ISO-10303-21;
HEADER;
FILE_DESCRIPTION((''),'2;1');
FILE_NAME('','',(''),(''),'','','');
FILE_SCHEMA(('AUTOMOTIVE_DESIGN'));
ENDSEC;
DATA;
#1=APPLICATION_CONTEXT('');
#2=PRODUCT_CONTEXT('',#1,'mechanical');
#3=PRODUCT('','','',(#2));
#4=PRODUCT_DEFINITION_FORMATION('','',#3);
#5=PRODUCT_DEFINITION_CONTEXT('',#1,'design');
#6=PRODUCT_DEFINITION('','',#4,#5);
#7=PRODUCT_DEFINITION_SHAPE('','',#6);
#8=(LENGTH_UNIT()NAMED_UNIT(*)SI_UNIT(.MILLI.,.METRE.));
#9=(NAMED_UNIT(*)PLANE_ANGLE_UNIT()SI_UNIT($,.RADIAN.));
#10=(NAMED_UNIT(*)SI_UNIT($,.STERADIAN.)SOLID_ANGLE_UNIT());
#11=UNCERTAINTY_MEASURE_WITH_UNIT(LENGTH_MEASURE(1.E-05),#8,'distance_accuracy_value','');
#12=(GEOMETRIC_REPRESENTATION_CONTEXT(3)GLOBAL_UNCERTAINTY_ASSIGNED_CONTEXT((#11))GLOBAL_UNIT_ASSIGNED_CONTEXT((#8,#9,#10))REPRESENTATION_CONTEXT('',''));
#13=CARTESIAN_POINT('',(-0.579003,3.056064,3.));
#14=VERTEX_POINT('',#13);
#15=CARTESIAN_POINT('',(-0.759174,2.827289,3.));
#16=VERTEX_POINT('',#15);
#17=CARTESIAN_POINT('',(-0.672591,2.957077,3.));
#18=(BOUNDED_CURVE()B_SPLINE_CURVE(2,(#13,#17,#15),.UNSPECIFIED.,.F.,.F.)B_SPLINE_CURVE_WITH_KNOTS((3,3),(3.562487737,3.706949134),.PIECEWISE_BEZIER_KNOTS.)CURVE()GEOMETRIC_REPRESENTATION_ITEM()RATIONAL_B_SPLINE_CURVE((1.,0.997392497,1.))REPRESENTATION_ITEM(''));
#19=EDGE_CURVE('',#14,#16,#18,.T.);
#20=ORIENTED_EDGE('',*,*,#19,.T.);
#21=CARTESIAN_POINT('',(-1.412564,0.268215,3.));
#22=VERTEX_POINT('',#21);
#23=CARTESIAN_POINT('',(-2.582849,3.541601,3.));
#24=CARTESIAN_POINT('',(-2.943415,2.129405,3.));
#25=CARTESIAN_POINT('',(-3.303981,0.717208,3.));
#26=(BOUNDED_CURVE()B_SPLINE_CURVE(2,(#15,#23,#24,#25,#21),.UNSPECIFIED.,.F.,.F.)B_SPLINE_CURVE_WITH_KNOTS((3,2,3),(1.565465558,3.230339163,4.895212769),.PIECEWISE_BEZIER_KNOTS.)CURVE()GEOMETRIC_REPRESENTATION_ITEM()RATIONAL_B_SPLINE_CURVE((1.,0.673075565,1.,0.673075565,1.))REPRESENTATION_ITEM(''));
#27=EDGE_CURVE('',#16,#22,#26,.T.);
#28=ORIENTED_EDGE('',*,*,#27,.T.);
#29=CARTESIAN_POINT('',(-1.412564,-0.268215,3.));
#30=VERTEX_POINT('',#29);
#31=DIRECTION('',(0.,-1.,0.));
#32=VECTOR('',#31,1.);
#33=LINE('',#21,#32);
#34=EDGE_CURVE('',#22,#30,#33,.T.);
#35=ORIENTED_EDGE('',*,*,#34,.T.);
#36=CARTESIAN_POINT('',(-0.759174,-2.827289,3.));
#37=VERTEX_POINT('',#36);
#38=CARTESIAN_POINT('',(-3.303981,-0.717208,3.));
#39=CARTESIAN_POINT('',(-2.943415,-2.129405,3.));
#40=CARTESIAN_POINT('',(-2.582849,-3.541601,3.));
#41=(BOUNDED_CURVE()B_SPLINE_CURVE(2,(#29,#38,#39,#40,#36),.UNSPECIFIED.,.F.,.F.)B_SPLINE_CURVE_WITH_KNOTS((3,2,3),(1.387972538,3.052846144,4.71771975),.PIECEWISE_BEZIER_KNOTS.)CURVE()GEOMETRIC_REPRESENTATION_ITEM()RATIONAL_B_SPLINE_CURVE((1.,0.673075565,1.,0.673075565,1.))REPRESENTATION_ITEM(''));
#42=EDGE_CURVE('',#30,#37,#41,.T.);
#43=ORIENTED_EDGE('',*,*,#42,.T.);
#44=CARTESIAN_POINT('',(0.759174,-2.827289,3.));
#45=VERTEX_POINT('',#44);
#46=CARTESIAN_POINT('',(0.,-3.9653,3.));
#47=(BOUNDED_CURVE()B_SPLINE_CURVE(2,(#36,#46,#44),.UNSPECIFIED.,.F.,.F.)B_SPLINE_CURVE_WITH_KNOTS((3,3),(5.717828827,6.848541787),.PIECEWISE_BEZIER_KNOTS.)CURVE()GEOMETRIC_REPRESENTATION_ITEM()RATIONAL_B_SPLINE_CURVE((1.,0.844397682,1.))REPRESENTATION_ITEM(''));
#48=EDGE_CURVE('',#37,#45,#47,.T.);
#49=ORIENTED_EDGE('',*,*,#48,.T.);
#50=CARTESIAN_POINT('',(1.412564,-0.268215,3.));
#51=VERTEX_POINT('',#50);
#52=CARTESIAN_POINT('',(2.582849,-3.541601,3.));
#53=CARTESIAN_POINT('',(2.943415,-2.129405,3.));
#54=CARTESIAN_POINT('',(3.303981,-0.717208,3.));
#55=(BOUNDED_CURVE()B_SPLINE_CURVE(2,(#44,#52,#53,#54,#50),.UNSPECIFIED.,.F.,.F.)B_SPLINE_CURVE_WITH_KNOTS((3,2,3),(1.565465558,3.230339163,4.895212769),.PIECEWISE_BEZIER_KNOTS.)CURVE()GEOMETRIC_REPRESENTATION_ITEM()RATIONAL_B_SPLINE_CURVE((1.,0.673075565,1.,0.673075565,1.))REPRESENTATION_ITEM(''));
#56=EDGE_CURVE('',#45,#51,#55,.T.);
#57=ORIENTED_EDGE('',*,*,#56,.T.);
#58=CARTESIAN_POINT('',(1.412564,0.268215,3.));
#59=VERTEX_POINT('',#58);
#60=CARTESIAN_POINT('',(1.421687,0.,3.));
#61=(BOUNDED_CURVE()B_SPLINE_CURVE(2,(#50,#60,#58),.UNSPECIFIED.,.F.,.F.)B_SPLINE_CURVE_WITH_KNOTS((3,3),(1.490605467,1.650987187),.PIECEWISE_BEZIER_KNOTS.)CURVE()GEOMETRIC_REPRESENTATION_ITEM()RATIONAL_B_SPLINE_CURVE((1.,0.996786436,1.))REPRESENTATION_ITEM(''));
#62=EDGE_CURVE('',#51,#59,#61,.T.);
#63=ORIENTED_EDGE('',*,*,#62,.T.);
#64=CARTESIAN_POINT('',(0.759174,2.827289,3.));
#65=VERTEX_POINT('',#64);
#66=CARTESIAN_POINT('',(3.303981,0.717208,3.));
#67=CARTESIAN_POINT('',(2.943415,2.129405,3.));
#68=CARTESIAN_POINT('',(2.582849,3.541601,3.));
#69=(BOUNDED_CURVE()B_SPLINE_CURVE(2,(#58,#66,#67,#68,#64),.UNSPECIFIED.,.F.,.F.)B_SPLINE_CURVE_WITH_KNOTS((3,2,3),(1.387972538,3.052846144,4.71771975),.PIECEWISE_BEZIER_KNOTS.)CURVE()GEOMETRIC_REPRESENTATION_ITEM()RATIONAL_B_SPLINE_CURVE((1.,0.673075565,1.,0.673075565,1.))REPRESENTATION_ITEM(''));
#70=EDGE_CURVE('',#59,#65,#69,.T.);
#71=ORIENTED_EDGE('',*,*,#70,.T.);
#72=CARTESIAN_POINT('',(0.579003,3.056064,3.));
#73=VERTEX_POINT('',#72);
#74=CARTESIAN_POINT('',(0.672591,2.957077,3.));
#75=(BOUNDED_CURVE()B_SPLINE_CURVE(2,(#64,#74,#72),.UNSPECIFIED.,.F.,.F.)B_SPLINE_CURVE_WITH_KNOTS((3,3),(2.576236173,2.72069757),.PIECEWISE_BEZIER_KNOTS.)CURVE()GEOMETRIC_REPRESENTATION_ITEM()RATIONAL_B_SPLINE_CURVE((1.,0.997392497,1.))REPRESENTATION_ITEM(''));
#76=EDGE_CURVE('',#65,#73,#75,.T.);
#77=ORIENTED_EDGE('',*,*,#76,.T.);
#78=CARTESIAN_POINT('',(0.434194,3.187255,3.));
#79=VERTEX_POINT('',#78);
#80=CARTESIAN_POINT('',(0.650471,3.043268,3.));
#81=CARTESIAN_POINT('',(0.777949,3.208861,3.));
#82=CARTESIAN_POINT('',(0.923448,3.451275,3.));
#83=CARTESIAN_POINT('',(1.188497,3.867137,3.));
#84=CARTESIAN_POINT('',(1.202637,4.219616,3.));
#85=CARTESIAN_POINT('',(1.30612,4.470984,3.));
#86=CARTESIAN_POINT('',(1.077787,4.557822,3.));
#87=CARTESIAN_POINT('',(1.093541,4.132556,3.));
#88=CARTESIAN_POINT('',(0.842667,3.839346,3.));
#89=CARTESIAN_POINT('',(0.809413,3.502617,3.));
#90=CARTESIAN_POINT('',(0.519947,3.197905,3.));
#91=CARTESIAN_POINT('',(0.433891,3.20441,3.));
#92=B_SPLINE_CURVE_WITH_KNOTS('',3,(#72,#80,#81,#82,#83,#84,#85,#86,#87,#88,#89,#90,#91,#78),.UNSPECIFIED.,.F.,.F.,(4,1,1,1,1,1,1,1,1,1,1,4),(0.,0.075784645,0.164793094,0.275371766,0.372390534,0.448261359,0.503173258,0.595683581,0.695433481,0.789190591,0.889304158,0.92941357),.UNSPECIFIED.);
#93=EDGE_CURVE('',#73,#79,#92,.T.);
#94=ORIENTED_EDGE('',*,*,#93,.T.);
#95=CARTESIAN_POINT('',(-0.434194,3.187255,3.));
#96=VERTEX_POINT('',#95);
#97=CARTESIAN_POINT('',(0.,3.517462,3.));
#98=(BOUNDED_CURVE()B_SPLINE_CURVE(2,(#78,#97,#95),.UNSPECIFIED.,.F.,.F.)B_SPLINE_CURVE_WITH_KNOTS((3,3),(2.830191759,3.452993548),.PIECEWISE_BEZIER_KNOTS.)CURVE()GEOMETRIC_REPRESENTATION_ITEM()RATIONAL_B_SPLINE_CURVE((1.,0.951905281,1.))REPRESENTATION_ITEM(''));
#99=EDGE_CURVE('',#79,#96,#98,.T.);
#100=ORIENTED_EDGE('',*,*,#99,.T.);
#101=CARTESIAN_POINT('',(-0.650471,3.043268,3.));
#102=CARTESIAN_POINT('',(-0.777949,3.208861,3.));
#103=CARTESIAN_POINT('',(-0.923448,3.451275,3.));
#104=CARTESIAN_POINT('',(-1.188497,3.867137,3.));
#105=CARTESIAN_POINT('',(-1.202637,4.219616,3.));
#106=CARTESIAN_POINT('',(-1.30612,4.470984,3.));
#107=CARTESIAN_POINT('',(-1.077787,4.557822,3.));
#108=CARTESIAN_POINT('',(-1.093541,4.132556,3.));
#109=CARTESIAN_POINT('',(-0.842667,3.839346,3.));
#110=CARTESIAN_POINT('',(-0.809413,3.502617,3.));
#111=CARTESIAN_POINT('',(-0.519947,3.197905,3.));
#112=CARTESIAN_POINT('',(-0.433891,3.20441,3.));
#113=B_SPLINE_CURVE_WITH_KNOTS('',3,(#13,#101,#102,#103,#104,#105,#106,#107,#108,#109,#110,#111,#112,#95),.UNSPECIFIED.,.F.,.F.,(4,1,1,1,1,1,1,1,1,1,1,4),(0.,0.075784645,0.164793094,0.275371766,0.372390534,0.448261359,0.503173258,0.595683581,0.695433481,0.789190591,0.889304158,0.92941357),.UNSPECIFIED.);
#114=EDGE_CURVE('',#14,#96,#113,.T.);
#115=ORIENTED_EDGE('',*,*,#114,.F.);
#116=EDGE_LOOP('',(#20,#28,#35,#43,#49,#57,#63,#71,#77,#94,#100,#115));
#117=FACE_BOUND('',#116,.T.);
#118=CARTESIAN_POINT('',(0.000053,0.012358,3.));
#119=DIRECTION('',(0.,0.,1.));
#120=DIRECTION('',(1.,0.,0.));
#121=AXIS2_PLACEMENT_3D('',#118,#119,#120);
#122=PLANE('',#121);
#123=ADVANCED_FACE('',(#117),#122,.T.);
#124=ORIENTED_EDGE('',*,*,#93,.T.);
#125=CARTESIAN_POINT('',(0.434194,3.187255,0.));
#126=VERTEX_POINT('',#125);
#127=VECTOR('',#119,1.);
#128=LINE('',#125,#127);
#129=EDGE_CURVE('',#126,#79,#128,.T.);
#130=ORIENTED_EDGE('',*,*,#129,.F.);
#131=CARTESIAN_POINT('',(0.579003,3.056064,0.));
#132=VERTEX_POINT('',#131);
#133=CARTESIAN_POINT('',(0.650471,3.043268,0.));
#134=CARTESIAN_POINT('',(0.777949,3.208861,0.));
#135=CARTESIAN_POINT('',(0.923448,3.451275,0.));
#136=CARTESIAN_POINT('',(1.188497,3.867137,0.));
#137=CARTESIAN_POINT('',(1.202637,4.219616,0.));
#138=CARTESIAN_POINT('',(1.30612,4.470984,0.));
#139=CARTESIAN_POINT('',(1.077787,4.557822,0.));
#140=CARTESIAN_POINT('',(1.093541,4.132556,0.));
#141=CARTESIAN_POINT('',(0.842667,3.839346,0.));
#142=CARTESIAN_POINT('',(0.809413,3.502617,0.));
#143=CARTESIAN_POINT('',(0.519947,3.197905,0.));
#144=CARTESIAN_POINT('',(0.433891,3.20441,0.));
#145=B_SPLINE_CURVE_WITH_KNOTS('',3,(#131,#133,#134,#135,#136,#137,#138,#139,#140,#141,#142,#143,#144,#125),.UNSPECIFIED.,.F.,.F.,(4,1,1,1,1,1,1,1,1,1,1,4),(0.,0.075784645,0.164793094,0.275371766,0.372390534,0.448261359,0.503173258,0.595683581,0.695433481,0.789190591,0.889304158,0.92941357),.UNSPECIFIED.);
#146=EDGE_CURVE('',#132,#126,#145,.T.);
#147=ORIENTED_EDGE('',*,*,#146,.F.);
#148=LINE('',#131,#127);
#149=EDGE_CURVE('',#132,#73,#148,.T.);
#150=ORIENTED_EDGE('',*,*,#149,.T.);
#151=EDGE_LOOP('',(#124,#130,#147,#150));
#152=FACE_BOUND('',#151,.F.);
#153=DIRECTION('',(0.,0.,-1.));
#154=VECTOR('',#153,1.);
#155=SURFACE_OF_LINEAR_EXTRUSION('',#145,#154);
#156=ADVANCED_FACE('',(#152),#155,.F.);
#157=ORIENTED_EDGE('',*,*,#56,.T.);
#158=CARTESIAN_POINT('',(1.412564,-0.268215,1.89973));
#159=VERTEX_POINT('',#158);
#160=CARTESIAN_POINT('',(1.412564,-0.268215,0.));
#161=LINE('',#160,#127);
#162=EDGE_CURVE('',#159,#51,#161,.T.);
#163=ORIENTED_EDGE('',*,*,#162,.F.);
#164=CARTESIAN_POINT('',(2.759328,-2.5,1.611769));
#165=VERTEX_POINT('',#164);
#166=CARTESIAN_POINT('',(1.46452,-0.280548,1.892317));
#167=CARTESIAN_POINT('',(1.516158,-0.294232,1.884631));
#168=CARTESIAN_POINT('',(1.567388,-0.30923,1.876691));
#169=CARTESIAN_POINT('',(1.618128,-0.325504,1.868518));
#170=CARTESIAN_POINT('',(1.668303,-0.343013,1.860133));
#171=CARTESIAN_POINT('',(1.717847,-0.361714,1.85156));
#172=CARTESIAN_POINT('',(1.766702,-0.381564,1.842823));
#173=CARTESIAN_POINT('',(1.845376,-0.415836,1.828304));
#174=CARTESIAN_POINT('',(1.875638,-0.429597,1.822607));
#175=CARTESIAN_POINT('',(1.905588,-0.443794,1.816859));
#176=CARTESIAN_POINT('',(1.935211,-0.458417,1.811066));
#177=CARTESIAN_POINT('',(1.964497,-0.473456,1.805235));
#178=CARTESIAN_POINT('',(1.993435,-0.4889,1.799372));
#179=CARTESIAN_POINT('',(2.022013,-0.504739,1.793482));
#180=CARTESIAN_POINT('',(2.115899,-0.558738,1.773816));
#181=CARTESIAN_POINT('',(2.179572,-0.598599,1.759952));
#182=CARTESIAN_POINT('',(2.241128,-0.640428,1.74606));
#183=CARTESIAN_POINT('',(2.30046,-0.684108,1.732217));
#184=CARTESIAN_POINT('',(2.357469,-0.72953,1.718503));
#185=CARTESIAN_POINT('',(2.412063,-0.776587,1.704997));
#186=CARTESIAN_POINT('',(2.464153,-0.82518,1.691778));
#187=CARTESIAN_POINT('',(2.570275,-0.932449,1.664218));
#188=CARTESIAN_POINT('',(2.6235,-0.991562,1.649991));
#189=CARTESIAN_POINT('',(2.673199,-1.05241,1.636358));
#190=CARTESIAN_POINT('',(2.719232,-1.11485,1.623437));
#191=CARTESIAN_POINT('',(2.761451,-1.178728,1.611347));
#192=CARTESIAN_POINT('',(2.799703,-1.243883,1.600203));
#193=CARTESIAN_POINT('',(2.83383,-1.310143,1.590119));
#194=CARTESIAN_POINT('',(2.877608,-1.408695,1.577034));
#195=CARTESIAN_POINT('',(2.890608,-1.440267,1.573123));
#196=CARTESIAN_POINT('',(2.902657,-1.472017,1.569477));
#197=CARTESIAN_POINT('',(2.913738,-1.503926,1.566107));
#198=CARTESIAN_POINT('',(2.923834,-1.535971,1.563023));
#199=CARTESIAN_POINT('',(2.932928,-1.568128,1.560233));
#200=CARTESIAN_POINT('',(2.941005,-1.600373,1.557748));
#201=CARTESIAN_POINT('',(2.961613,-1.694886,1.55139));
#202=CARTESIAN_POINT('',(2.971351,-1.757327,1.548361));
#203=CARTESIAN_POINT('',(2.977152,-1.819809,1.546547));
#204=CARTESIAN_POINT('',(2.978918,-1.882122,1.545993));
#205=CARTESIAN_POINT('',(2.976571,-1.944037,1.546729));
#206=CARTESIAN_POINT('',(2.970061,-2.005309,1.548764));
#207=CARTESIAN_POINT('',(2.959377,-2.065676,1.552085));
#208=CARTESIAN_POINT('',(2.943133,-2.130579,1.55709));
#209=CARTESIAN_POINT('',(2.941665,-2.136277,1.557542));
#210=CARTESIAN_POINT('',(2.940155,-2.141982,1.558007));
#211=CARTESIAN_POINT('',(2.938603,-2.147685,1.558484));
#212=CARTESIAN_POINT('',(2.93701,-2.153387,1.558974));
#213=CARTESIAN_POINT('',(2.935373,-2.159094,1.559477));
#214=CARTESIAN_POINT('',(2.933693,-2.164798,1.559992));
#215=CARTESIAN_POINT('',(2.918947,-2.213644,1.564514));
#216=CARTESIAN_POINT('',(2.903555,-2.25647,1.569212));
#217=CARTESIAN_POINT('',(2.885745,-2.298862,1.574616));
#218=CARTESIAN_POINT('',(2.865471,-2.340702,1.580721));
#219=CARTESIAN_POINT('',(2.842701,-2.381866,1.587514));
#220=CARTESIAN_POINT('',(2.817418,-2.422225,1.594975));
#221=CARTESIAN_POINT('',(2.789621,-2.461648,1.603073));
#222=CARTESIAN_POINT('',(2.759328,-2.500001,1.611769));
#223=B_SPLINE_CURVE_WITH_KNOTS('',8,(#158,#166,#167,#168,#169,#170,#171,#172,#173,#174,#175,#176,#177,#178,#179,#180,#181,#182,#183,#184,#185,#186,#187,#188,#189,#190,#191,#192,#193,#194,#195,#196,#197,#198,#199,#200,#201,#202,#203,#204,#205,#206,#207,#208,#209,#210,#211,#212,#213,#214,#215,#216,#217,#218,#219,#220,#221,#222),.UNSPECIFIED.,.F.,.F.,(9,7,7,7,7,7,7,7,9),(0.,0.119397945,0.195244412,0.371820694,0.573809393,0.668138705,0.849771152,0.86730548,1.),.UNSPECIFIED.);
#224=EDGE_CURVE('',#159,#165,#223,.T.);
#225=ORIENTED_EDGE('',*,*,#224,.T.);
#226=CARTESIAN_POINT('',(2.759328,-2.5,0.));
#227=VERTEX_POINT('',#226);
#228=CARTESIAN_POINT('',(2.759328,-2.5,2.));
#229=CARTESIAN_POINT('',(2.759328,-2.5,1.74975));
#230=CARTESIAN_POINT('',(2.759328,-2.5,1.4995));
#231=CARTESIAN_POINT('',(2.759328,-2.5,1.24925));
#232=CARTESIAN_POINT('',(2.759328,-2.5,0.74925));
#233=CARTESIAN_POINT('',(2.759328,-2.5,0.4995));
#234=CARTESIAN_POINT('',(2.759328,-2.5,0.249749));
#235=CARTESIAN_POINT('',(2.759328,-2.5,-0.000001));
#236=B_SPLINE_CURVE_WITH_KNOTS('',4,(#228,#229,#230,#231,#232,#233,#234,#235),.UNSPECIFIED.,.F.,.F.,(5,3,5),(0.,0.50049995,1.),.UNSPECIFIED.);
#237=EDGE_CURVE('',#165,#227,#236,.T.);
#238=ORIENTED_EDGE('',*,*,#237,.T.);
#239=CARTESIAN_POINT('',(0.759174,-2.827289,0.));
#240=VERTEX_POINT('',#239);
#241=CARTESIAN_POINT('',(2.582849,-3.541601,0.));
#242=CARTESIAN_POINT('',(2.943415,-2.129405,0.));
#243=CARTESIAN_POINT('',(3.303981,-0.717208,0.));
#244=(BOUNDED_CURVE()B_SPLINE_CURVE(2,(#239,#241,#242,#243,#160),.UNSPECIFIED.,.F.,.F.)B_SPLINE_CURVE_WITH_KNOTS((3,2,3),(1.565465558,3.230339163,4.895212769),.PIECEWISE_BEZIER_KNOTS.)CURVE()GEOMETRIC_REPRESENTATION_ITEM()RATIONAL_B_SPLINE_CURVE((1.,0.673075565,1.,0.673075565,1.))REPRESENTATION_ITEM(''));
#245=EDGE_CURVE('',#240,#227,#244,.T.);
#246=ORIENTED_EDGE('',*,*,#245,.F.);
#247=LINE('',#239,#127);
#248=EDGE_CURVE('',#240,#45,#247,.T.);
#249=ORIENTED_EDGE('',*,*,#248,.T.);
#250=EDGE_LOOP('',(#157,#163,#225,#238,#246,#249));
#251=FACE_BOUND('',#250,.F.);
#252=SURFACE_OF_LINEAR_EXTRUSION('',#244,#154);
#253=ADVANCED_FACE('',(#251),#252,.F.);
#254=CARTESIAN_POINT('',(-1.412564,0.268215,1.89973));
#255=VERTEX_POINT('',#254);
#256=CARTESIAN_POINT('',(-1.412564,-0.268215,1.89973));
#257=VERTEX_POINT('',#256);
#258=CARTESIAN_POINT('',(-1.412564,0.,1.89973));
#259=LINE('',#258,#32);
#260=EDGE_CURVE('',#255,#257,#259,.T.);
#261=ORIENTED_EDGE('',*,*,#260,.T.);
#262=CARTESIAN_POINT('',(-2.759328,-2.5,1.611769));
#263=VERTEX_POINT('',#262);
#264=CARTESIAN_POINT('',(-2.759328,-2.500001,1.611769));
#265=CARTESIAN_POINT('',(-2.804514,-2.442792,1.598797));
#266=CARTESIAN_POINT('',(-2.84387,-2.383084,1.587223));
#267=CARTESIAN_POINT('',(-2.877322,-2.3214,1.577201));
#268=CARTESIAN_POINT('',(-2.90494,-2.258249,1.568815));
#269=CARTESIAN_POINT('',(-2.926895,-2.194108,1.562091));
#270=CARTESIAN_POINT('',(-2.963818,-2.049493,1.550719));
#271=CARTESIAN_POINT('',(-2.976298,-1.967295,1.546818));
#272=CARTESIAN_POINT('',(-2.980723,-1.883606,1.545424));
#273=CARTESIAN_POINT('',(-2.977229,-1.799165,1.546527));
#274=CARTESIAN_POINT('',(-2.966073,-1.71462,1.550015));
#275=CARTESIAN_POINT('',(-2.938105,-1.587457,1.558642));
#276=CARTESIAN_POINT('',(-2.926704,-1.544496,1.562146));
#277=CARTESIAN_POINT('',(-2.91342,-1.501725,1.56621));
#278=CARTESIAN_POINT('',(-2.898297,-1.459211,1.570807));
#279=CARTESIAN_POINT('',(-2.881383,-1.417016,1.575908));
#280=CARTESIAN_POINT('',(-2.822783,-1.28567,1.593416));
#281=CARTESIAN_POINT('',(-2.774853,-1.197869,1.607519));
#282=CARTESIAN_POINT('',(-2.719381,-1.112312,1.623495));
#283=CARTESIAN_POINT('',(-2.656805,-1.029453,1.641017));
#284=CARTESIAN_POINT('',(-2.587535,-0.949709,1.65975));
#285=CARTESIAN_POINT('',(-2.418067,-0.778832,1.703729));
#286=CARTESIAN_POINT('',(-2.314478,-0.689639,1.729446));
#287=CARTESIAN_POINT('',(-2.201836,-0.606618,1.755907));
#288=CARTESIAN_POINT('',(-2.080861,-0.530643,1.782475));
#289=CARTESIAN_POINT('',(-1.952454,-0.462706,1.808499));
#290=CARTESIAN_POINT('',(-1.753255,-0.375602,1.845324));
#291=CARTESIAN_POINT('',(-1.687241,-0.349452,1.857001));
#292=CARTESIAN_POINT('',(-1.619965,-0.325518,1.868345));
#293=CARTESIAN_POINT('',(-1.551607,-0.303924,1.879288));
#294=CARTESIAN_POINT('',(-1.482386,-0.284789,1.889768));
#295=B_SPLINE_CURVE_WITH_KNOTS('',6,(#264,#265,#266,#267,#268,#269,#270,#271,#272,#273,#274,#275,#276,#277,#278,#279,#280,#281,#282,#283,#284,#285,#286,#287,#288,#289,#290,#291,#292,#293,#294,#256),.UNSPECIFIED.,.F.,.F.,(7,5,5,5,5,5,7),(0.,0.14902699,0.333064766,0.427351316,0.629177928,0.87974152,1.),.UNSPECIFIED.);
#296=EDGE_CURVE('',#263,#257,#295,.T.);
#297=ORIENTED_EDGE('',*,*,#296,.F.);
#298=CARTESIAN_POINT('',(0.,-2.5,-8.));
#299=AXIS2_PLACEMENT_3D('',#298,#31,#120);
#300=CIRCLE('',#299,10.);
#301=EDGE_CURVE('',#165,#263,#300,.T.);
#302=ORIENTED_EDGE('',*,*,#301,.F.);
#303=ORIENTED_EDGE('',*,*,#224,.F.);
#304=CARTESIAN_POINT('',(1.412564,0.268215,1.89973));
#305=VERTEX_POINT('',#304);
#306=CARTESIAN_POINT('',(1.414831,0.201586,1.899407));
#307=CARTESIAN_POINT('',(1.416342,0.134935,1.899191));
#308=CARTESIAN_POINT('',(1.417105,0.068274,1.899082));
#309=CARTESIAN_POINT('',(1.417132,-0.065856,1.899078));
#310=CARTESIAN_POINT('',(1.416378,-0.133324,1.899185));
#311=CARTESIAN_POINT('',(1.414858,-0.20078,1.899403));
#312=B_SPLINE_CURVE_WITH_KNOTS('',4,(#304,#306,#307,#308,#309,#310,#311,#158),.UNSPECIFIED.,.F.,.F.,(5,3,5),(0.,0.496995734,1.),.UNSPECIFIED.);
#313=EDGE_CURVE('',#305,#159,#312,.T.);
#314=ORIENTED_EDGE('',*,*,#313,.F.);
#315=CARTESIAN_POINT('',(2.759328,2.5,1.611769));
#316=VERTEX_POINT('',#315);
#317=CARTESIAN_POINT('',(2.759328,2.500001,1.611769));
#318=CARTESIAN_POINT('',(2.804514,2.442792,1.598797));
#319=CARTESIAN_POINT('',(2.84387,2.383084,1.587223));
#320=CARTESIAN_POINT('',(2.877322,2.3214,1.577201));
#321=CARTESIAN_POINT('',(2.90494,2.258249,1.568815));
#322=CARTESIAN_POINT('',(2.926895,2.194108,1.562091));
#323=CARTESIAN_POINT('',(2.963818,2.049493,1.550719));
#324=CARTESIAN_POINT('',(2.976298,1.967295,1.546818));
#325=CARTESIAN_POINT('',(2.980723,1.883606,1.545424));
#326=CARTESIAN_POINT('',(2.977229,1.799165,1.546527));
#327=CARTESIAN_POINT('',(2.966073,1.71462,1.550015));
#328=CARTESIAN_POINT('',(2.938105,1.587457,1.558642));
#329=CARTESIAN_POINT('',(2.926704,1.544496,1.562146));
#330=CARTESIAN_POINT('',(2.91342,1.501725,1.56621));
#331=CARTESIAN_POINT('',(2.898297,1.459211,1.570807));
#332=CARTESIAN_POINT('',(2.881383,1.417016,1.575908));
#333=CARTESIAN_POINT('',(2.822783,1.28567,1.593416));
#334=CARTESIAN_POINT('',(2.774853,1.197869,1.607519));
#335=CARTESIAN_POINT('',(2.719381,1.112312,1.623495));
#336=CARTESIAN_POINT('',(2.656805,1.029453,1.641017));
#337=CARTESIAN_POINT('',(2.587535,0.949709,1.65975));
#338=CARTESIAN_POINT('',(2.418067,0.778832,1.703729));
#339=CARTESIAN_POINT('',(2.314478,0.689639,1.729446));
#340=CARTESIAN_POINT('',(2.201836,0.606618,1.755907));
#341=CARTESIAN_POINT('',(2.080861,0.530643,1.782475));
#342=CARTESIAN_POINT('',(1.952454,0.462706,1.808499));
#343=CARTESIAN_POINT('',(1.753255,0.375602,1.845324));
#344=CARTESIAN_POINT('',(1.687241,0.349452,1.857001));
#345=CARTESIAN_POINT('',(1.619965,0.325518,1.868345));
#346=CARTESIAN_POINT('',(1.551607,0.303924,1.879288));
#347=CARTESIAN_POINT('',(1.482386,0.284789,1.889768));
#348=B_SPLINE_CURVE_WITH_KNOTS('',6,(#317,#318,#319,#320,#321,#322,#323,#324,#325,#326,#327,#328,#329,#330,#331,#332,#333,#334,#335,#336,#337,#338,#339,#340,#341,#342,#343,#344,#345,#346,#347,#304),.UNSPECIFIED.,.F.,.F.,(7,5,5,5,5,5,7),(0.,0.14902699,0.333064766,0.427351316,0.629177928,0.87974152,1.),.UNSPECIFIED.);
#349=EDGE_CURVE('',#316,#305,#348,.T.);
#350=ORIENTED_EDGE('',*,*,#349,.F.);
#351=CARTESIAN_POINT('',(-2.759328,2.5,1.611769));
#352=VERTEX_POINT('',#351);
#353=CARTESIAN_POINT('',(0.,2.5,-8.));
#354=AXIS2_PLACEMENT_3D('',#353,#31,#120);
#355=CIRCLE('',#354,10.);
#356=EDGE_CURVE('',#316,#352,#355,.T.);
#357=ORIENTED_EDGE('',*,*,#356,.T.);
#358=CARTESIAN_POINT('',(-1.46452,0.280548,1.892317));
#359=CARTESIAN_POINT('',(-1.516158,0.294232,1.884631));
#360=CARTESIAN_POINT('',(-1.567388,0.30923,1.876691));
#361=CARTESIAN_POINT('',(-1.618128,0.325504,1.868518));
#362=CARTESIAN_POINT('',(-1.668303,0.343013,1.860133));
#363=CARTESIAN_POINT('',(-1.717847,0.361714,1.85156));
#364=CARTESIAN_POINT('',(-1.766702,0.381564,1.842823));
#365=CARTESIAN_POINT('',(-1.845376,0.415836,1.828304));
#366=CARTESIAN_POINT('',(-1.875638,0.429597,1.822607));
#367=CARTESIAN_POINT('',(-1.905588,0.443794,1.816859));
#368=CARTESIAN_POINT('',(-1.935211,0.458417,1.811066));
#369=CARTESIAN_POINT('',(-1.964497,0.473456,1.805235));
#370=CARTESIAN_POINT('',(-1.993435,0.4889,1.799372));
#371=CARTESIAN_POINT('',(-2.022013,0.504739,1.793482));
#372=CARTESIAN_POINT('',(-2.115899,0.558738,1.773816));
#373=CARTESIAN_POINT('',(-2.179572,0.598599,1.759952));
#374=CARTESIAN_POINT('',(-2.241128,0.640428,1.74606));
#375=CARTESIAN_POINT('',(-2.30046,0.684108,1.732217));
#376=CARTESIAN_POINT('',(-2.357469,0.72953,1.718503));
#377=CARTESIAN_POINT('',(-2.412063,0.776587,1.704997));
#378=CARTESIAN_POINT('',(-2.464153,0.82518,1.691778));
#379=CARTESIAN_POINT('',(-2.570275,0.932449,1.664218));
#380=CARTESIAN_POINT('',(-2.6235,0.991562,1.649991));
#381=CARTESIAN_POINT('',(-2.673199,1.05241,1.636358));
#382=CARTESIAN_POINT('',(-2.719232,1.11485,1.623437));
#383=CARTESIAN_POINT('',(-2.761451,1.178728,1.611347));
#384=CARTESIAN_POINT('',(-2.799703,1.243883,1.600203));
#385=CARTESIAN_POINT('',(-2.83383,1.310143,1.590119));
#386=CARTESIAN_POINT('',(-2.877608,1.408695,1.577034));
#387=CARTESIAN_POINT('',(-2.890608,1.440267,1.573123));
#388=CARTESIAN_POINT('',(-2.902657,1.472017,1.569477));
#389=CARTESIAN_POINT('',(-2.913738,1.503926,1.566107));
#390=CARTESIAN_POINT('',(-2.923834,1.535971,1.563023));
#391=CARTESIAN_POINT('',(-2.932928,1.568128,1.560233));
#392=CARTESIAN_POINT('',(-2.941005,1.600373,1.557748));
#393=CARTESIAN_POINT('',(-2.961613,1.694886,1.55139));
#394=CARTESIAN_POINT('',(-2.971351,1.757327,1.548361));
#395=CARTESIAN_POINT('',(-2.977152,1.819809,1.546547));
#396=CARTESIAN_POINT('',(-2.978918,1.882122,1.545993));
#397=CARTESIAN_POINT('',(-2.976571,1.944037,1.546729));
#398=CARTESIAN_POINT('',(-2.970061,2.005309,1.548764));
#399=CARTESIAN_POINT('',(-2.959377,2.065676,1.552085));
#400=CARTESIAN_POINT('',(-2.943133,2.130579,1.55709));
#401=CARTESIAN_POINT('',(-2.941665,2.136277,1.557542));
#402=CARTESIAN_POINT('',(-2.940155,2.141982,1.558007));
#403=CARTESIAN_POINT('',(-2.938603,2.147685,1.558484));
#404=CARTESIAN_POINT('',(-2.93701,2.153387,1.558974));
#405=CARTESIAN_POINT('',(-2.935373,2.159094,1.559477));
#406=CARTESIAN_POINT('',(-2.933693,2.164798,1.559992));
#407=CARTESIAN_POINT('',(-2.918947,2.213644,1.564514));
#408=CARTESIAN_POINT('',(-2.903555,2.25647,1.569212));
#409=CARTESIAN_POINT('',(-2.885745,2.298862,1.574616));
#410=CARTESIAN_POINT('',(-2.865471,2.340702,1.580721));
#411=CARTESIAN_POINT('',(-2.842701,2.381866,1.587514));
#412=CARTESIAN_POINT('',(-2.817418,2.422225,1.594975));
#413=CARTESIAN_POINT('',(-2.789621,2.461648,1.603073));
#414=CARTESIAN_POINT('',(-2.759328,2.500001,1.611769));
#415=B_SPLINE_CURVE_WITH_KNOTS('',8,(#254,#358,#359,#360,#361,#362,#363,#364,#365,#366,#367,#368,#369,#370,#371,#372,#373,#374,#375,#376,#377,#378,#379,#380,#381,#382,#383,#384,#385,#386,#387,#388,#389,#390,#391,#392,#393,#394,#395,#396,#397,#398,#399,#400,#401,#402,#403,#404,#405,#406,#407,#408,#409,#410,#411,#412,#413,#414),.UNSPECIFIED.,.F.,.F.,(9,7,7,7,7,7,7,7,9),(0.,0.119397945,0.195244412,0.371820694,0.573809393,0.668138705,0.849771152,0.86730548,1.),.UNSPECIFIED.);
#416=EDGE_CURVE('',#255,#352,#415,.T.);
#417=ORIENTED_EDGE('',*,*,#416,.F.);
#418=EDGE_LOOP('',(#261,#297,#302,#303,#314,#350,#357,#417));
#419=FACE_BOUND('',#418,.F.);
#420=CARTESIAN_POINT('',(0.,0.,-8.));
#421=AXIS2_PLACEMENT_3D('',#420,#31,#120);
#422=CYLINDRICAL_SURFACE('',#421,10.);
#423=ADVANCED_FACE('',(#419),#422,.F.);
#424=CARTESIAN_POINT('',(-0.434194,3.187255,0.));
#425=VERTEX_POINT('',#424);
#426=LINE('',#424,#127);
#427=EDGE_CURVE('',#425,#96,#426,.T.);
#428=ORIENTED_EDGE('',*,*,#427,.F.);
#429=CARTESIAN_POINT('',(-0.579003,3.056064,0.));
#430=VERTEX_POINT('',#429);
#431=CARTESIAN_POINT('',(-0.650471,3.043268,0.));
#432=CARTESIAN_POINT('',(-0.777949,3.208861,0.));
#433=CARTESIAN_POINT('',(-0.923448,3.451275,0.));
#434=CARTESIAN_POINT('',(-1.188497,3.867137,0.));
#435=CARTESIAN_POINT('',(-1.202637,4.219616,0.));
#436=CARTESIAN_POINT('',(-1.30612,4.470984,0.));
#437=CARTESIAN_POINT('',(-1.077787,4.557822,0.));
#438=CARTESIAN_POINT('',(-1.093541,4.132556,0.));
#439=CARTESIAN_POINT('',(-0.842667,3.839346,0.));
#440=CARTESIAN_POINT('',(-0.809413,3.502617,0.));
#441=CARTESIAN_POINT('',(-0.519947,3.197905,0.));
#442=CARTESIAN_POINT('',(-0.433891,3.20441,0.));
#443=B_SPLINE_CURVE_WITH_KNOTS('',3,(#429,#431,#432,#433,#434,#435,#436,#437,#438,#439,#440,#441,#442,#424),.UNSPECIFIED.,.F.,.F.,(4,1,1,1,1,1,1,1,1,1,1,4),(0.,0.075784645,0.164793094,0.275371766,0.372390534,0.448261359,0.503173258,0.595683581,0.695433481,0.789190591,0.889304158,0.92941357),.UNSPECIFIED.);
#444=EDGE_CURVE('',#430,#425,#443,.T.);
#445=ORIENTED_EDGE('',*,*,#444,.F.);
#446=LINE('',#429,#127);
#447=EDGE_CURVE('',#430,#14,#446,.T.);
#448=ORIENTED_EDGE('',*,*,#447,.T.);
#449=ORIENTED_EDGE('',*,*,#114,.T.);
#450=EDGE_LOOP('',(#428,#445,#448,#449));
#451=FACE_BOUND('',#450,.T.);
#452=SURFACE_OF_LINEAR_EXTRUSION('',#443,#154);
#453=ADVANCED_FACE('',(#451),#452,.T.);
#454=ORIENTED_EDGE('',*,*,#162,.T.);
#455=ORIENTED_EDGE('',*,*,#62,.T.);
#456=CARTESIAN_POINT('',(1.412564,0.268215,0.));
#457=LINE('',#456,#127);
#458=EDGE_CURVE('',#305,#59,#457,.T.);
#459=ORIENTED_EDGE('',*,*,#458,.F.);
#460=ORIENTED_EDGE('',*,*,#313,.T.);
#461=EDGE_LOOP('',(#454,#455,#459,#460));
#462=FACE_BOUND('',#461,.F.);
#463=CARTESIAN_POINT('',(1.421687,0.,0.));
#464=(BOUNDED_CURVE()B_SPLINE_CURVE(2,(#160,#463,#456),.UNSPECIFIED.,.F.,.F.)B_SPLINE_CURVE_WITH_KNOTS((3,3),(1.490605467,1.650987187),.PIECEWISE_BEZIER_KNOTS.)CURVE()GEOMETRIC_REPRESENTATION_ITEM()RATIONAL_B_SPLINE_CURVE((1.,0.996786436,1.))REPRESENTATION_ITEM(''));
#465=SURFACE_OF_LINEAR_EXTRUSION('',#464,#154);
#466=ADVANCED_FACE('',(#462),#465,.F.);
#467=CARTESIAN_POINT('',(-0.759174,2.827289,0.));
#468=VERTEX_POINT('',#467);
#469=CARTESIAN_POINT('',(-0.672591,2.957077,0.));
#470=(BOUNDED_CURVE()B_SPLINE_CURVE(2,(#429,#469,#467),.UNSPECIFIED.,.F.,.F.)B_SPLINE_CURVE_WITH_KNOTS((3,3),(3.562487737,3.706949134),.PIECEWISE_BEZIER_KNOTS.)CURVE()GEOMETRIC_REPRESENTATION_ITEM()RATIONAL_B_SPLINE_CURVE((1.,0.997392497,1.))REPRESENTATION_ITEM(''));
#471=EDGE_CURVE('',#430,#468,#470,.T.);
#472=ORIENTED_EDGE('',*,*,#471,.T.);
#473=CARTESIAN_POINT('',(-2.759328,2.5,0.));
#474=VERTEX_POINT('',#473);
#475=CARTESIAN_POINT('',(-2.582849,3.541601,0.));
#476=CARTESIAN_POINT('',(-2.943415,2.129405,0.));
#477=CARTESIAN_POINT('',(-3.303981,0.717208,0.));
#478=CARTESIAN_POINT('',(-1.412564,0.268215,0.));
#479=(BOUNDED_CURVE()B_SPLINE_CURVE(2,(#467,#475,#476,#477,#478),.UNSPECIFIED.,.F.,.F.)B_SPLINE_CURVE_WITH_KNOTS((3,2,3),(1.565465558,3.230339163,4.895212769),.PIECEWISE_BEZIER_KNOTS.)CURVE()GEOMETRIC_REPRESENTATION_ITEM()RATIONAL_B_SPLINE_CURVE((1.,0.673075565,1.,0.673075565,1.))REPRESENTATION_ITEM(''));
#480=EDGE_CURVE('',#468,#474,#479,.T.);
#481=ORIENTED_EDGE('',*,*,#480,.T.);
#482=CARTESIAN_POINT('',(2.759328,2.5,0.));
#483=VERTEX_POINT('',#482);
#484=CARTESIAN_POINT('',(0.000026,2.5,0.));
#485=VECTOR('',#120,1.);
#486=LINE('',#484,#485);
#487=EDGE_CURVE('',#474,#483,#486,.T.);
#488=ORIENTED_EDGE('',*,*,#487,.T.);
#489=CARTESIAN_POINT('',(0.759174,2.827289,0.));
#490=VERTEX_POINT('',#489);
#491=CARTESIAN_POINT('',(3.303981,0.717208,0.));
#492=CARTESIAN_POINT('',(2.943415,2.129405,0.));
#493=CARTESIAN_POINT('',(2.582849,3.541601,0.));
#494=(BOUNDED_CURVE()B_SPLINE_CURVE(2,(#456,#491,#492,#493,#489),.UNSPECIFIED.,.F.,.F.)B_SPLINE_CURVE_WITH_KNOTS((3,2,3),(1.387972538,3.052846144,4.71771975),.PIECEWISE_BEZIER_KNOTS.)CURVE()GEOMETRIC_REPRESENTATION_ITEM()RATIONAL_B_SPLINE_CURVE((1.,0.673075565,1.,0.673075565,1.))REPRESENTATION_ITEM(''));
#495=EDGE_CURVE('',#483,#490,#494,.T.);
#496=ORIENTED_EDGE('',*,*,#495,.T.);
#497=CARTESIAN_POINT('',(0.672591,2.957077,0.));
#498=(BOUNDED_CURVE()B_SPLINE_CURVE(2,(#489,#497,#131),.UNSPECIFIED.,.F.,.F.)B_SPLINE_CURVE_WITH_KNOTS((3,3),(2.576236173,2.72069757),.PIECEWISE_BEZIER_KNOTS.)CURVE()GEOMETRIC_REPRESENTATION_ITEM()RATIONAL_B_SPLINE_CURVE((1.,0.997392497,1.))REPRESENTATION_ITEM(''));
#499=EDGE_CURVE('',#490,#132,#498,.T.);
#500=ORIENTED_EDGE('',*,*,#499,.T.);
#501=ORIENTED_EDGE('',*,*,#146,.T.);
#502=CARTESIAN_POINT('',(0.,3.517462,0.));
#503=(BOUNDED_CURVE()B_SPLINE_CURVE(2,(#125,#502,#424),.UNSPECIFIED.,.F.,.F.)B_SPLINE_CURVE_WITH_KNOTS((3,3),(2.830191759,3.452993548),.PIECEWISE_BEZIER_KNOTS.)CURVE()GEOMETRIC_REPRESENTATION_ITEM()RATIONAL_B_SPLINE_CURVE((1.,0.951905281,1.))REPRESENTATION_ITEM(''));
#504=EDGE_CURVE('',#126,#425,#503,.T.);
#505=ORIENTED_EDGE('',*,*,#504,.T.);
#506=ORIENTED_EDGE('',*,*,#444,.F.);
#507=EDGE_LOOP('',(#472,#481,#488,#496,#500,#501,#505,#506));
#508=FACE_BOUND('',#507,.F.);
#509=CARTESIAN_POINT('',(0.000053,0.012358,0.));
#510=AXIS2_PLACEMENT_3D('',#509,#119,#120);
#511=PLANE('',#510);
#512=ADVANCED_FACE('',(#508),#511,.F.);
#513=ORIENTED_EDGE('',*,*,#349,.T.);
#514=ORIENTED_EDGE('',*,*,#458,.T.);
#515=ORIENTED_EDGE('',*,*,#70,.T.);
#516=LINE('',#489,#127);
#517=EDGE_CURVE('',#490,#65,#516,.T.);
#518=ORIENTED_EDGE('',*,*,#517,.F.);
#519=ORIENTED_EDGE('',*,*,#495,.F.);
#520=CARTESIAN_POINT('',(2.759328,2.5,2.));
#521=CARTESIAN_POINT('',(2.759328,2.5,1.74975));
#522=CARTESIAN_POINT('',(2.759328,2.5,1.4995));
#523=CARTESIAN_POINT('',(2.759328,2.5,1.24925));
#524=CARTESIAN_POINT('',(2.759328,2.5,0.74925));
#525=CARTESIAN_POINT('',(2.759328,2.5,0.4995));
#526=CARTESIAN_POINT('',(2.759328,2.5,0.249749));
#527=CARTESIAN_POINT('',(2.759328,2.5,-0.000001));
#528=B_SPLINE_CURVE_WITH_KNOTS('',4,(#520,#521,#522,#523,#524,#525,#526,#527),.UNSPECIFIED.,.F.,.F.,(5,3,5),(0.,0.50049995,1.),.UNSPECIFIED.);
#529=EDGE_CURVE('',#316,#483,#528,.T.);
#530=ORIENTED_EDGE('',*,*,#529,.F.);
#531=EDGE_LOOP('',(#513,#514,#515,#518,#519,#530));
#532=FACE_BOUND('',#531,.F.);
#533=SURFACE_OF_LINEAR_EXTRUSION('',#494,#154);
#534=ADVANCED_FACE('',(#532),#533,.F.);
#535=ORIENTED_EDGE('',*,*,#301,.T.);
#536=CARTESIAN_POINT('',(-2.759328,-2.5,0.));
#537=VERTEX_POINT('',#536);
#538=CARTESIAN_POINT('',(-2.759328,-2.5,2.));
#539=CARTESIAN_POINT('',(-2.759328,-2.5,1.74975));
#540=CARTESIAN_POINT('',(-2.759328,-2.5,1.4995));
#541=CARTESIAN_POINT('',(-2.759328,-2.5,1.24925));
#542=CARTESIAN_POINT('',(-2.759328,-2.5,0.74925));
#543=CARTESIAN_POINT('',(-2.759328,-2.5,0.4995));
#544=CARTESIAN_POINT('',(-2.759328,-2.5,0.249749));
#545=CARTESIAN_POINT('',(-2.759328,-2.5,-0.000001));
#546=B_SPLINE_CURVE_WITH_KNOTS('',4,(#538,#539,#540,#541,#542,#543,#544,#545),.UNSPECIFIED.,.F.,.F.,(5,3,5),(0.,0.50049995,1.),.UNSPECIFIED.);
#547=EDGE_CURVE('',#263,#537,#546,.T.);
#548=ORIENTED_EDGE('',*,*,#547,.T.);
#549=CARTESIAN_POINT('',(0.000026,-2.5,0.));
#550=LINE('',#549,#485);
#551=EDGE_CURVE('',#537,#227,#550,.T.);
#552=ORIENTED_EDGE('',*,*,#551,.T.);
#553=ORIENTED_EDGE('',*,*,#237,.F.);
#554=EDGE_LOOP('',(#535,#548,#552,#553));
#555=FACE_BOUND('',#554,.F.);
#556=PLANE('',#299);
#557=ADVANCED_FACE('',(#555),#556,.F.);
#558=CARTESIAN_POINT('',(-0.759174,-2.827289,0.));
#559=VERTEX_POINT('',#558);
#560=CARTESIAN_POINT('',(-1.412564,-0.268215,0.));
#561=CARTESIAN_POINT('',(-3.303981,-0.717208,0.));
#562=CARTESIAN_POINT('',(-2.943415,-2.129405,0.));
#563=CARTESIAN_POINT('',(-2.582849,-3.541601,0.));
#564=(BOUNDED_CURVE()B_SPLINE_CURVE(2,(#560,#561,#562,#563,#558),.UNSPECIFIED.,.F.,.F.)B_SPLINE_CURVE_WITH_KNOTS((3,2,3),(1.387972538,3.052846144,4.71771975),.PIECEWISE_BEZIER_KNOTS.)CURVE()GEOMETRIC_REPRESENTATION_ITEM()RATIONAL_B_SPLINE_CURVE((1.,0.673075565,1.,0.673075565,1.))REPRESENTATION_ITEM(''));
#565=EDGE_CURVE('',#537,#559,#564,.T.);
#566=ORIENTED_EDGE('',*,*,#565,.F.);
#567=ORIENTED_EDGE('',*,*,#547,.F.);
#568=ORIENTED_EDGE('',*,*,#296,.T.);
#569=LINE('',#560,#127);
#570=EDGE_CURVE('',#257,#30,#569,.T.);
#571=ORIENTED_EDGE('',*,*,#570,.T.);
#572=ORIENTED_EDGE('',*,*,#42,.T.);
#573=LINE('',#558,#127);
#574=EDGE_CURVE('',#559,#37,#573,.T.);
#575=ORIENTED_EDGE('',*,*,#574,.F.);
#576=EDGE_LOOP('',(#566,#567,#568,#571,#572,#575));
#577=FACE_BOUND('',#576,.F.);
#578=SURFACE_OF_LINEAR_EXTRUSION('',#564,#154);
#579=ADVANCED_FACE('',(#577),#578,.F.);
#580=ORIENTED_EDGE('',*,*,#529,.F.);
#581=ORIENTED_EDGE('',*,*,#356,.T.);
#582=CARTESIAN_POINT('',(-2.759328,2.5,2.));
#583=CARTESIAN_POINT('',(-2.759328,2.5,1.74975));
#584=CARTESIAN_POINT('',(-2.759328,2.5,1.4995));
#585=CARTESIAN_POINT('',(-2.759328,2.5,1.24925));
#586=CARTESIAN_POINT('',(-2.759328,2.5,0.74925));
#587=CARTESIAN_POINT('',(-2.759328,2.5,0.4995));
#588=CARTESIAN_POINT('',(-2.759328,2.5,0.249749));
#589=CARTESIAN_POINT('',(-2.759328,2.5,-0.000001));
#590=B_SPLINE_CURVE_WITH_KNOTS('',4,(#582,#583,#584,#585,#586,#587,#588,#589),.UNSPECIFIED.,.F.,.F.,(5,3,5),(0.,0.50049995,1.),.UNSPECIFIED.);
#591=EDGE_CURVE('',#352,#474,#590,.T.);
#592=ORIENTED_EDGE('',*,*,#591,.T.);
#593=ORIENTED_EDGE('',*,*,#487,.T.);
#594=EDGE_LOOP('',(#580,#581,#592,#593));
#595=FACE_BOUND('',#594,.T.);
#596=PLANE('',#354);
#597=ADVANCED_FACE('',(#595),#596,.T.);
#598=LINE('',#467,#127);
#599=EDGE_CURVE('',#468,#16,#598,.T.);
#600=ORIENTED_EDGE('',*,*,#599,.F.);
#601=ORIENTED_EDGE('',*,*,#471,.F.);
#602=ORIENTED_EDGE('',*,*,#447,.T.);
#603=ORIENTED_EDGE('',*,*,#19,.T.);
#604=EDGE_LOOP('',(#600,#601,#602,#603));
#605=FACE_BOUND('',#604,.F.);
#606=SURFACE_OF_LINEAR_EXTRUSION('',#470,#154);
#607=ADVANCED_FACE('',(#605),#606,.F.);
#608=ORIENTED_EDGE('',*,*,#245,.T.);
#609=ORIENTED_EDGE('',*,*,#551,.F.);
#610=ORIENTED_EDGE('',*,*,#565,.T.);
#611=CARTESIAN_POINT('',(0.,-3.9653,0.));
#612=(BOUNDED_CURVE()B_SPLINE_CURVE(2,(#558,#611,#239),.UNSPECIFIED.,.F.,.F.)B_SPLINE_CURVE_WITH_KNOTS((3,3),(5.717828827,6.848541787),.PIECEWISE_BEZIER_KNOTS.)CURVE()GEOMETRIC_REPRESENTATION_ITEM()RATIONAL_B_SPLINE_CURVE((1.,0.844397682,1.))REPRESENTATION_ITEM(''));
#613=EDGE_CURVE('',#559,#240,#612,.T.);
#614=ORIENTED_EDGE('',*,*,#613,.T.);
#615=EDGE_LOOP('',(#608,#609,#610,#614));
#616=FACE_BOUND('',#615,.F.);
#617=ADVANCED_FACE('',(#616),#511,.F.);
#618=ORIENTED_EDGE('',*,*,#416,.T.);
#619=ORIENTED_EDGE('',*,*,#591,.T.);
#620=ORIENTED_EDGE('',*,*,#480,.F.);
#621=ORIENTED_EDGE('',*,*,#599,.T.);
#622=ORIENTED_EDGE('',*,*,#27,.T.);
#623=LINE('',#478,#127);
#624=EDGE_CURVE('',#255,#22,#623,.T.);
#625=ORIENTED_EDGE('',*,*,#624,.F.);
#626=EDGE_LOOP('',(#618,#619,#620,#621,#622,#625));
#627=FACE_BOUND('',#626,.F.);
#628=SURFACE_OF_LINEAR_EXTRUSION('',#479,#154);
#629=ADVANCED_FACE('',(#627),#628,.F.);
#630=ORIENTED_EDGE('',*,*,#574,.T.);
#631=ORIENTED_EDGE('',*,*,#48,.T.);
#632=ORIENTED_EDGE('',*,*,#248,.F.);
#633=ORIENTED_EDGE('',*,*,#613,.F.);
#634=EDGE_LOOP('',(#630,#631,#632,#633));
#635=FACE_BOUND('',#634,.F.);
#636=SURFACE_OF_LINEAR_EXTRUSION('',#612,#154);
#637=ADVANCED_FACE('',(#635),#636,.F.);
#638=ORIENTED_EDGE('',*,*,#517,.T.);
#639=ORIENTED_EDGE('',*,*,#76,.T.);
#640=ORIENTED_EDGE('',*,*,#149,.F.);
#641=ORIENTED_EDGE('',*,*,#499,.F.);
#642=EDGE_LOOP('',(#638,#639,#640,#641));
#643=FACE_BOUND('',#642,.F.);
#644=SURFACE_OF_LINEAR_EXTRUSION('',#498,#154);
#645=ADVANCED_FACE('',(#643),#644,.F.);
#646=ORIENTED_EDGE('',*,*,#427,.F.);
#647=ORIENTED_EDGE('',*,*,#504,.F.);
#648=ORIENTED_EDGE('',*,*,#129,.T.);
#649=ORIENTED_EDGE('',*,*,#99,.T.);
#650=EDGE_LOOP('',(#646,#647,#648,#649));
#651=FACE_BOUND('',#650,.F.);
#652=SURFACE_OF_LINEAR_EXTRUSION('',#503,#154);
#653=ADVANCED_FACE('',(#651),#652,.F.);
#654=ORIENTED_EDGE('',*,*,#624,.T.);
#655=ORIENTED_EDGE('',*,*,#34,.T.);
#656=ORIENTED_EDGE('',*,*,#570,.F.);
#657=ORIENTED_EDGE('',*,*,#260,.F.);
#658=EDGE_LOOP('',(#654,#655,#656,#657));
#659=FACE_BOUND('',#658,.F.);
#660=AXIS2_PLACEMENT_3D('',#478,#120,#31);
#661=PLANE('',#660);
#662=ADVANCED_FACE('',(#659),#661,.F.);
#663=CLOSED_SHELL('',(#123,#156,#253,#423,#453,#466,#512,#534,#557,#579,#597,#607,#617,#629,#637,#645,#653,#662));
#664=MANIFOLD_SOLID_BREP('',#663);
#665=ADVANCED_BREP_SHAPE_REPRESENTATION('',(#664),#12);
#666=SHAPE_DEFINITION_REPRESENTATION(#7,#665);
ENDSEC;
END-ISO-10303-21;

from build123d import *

# Parameters (mm, degrees)
F1_DEPTH = 3
F2_R     = 10
F3_DEPTH = 2.5


with BuildPart() as f1:
    # F0 (on Top) → F1 (new body)
    with BuildSketch(Plane.XY):
        with BuildLine():
            add(Edge.make_bspline(
                [(-0.5790027714, 3.0560637008), (-0.6725914684, 2.9570772689), (-0.7591741745, 2.8272886972)],
                knots=[3.562487737, 3.562487737, 3.562487737, 3.7069491338, 3.7069491338, 3.7069491338], degree=2, weights=[1, 0.9973924971, 1]))
            add(Edge.make_bspline(
                [(-0.7591741745, 2.8272886972), (-2.5828488582, 3.5416014848), (-2.9434149933, 2.1294046992), (-3.3039811285, 0.7172079135), (-1.4125643121, 0.2682146132)],
                knots=[1.5654655575, 1.5654655575, 1.5654655575, 3.2303391632, 3.2303391632, 4.8952127689, 4.8952127689, 4.8952127689], degree=2, weights=[1, 0.6730755649, 1, 0.6730755649, 1]))
            Line((-1.4125643121, 0.2682146132), (-1.4125643121, -0.2682146132))
            add(Edge.make_bspline(
                [(-1.4125643121, -0.2682146132), (-3.3039811285, -0.7172079135), (-2.9434149933, -2.1294046992), (-2.5828488582, -3.5416014848), (-0.7591741745, -2.8272886972)],
                knots=[1.3879725383, 1.3879725383, 1.3879725383, 3.052846144, 3.052846144, 4.7177197497, 4.7177197497, 4.7177197497], degree=2, weights=[1, 0.6730755649, 1, 0.6730755649, 1]))
            add(Edge.make_bspline(
                [(-0.7591741745, -2.8272886972), (0, -3.9653003882), (0.7591741745, -2.8272886972)],
                knots=[5.7178288269, 5.7178288269, 5.7178288269, 6.8485417874, 6.8485417874, 6.8485417874], degree=2, weights=[1, 0.8443976816, 1]))
            add(Edge.make_bspline(
                [(0.7591741745, -2.8272886972), (2.5828488582, -3.5416014848), (2.9434149933, -2.1294046992), (3.3039811285, -0.7172079135), (1.4125643121, -0.2682146132)],
                knots=[1.5654655575, 1.5654655575, 1.5654655575, 3.2303391632, 3.2303391632, 4.8952127689, 4.8952127689, 4.8952127689], degree=2, weights=[1, 0.6730755649, 1, 0.6730755649, 1]))
            add(Edge.make_bspline(
                [(1.4125643121, -0.2682146132), (1.4216869957, 0), (1.4125643121, 0.2682146132)],
                knots=[1.4906054667, 1.4906054667, 1.4906054667, 1.6509871869, 1.6509871869, 1.6509871869], degree=2, weights=[1, 0.9967864356, 1]))
            add(Edge.make_bspline(
                [(1.4125643121, 0.2682146132), (3.3039811285, 0.7172079135), (2.9434149933, 2.1294046992), (2.5828488582, 3.5416014848), (0.7591741745, 2.8272886972)],
                knots=[1.3879725383, 1.3879725383, 1.3879725383, 3.052846144, 3.052846144, 4.7177197497, 4.7177197497, 4.7177197497], degree=2, weights=[1, 0.6730755649, 1, 0.6730755649, 1]))
            add(Edge.make_bspline(
                [(0.7591741745, 2.8272886972), (0.6725914684, 2.9570772689), (0.5790027714, 3.0560637008)],
                knots=[2.5762361733, 2.5762361733, 2.5762361733, 2.7206975702, 2.7206975702, 2.7206975702], degree=2, weights=[1, 0.9973924971, 1]))
            add(Edge.make_bspline(
                [(0.4341943598, 3.1872553646), (0.4347281823, 3.1570652587), (0.5124366951, 3.0679820909), (0.5790027714, 3.0560637008)],
                knots=[0.9294135697, 0.9294135697, 0.9294135697, 0.9294135697, 1, 1, 1, 1], degree=3))
            add(Edge.make_bspline(
                [(0.4341943598, 3.1872553646), (0, 3.5174617927), (-0.4341943598, 3.1872553646)],
                knots=[2.830191759, 2.830191759, 2.830191759, 3.4529935482, 3.4529935482, 3.4529935482], degree=2, weights=[1, 0.9519052806, 1]))
            add(Edge.make_bspline(
                [(-0.4341943598, 3.1872553646), (-0.4347281823, 3.1570652587), (-0.5124366951, 3.0679820909), (-0.5790027714, 3.0560637008)],
                knots=[0.9294135697, 0.9294135697, 0.9294135697, 0.9294135697, 1, 1, 1, 1], degree=3))
        make_face()
        with BuildLine():
            add(Edge.make_bspline(
                [(-0.5790027714, 3.0560637008), (-0.6504709908, 3.0432676015), (-0.7779488863, 3.2088605935), (-0.9234481078, 3.4512745068), (-1.1884969748, 3.8671369216), (-1.2026374207, 4.2196155932), (-1.3061198694, 4.4709843302), (-1.0777874945, 4.5578217976), (-1.0935408158, 4.1325563249), (-0.8426672982, 3.839345852), (-0.809412939, 3.5026167903), (-0.519946565, 3.1979048552), (-0.4338910252, 3.2044103243), (-0.4341943598, 3.1872553646)],
                knots=[0, 0, 0, 0, 0.0757846453, 0.1647930939, 0.2753717663, 0.3723905337, 0.4482613591, 0.5031732576, 0.5956835812, 0.6954334806, 0.7891905912, 0.8893041585, 0.9294135697, 0.9294135697, 0.9294135697, 0.9294135697], degree=3))
            add(Edge.make_bspline(
                [(-0.4341943598, 3.1872553646), (-0.4347281823, 3.1570652587), (-0.5124366951, 3.0679820909), (-0.5790027714, 3.0560637008)],
                knots=[0.9294135697, 0.9294135697, 0.9294135697, 0.9294135697, 1, 1, 1, 1], degree=3))
        make_face()
        with BuildLine():
            add(Edge.make_bspline(
                [(0.5790027714, 3.0560637008), (0.6504709908, 3.0432676015), (0.7779488863, 3.2088605935), (0.9234481078, 3.4512745068), (1.1884969748, 3.8671369216), (1.2026374207, 4.2196155932), (1.3061198694, 4.4709843302), (1.0777874945, 4.5578217976), (1.0935408158, 4.1325563249), (0.8426672982, 3.839345852), (0.809412939, 3.5026167903), (0.519946565, 3.1979048552), (0.4338910252, 3.2044103243), (0.4341943598, 3.1872553646)],
                knots=[0, 0, 0, 0, 0.0757846453, 0.1647930939, 0.2753717663, 0.3723905337, 0.4482613591, 0.5031732576, 0.5956835812, 0.6954334806, 0.7891905912, 0.8893041585, 0.9294135697, 0.9294135697, 0.9294135697, 0.9294135697], degree=3))
            add(Edge.make_bspline(
                [(0.4341943598, 3.1872553646), (0.4347281823, 3.1570652587), (0.5124366951, 3.0679820909), (0.5790027714, 3.0560637008)],
                knots=[0.9294135697, 0.9294135697, 0.9294135697, 0.9294135697, 1, 1, 1, 1], degree=3))
        make_face()
    extrude(amount=F1_DEPTH)

    # F2 (on Front) → F3 (cut, symmetric)
    with BuildSketch(Plane.XZ):
        with Locations((0, -8)):
            Circle(F2_R)
    extrude(amount=F3_DEPTH, both=True, mode=Mode.SUBTRACT)


solid = f1.part
